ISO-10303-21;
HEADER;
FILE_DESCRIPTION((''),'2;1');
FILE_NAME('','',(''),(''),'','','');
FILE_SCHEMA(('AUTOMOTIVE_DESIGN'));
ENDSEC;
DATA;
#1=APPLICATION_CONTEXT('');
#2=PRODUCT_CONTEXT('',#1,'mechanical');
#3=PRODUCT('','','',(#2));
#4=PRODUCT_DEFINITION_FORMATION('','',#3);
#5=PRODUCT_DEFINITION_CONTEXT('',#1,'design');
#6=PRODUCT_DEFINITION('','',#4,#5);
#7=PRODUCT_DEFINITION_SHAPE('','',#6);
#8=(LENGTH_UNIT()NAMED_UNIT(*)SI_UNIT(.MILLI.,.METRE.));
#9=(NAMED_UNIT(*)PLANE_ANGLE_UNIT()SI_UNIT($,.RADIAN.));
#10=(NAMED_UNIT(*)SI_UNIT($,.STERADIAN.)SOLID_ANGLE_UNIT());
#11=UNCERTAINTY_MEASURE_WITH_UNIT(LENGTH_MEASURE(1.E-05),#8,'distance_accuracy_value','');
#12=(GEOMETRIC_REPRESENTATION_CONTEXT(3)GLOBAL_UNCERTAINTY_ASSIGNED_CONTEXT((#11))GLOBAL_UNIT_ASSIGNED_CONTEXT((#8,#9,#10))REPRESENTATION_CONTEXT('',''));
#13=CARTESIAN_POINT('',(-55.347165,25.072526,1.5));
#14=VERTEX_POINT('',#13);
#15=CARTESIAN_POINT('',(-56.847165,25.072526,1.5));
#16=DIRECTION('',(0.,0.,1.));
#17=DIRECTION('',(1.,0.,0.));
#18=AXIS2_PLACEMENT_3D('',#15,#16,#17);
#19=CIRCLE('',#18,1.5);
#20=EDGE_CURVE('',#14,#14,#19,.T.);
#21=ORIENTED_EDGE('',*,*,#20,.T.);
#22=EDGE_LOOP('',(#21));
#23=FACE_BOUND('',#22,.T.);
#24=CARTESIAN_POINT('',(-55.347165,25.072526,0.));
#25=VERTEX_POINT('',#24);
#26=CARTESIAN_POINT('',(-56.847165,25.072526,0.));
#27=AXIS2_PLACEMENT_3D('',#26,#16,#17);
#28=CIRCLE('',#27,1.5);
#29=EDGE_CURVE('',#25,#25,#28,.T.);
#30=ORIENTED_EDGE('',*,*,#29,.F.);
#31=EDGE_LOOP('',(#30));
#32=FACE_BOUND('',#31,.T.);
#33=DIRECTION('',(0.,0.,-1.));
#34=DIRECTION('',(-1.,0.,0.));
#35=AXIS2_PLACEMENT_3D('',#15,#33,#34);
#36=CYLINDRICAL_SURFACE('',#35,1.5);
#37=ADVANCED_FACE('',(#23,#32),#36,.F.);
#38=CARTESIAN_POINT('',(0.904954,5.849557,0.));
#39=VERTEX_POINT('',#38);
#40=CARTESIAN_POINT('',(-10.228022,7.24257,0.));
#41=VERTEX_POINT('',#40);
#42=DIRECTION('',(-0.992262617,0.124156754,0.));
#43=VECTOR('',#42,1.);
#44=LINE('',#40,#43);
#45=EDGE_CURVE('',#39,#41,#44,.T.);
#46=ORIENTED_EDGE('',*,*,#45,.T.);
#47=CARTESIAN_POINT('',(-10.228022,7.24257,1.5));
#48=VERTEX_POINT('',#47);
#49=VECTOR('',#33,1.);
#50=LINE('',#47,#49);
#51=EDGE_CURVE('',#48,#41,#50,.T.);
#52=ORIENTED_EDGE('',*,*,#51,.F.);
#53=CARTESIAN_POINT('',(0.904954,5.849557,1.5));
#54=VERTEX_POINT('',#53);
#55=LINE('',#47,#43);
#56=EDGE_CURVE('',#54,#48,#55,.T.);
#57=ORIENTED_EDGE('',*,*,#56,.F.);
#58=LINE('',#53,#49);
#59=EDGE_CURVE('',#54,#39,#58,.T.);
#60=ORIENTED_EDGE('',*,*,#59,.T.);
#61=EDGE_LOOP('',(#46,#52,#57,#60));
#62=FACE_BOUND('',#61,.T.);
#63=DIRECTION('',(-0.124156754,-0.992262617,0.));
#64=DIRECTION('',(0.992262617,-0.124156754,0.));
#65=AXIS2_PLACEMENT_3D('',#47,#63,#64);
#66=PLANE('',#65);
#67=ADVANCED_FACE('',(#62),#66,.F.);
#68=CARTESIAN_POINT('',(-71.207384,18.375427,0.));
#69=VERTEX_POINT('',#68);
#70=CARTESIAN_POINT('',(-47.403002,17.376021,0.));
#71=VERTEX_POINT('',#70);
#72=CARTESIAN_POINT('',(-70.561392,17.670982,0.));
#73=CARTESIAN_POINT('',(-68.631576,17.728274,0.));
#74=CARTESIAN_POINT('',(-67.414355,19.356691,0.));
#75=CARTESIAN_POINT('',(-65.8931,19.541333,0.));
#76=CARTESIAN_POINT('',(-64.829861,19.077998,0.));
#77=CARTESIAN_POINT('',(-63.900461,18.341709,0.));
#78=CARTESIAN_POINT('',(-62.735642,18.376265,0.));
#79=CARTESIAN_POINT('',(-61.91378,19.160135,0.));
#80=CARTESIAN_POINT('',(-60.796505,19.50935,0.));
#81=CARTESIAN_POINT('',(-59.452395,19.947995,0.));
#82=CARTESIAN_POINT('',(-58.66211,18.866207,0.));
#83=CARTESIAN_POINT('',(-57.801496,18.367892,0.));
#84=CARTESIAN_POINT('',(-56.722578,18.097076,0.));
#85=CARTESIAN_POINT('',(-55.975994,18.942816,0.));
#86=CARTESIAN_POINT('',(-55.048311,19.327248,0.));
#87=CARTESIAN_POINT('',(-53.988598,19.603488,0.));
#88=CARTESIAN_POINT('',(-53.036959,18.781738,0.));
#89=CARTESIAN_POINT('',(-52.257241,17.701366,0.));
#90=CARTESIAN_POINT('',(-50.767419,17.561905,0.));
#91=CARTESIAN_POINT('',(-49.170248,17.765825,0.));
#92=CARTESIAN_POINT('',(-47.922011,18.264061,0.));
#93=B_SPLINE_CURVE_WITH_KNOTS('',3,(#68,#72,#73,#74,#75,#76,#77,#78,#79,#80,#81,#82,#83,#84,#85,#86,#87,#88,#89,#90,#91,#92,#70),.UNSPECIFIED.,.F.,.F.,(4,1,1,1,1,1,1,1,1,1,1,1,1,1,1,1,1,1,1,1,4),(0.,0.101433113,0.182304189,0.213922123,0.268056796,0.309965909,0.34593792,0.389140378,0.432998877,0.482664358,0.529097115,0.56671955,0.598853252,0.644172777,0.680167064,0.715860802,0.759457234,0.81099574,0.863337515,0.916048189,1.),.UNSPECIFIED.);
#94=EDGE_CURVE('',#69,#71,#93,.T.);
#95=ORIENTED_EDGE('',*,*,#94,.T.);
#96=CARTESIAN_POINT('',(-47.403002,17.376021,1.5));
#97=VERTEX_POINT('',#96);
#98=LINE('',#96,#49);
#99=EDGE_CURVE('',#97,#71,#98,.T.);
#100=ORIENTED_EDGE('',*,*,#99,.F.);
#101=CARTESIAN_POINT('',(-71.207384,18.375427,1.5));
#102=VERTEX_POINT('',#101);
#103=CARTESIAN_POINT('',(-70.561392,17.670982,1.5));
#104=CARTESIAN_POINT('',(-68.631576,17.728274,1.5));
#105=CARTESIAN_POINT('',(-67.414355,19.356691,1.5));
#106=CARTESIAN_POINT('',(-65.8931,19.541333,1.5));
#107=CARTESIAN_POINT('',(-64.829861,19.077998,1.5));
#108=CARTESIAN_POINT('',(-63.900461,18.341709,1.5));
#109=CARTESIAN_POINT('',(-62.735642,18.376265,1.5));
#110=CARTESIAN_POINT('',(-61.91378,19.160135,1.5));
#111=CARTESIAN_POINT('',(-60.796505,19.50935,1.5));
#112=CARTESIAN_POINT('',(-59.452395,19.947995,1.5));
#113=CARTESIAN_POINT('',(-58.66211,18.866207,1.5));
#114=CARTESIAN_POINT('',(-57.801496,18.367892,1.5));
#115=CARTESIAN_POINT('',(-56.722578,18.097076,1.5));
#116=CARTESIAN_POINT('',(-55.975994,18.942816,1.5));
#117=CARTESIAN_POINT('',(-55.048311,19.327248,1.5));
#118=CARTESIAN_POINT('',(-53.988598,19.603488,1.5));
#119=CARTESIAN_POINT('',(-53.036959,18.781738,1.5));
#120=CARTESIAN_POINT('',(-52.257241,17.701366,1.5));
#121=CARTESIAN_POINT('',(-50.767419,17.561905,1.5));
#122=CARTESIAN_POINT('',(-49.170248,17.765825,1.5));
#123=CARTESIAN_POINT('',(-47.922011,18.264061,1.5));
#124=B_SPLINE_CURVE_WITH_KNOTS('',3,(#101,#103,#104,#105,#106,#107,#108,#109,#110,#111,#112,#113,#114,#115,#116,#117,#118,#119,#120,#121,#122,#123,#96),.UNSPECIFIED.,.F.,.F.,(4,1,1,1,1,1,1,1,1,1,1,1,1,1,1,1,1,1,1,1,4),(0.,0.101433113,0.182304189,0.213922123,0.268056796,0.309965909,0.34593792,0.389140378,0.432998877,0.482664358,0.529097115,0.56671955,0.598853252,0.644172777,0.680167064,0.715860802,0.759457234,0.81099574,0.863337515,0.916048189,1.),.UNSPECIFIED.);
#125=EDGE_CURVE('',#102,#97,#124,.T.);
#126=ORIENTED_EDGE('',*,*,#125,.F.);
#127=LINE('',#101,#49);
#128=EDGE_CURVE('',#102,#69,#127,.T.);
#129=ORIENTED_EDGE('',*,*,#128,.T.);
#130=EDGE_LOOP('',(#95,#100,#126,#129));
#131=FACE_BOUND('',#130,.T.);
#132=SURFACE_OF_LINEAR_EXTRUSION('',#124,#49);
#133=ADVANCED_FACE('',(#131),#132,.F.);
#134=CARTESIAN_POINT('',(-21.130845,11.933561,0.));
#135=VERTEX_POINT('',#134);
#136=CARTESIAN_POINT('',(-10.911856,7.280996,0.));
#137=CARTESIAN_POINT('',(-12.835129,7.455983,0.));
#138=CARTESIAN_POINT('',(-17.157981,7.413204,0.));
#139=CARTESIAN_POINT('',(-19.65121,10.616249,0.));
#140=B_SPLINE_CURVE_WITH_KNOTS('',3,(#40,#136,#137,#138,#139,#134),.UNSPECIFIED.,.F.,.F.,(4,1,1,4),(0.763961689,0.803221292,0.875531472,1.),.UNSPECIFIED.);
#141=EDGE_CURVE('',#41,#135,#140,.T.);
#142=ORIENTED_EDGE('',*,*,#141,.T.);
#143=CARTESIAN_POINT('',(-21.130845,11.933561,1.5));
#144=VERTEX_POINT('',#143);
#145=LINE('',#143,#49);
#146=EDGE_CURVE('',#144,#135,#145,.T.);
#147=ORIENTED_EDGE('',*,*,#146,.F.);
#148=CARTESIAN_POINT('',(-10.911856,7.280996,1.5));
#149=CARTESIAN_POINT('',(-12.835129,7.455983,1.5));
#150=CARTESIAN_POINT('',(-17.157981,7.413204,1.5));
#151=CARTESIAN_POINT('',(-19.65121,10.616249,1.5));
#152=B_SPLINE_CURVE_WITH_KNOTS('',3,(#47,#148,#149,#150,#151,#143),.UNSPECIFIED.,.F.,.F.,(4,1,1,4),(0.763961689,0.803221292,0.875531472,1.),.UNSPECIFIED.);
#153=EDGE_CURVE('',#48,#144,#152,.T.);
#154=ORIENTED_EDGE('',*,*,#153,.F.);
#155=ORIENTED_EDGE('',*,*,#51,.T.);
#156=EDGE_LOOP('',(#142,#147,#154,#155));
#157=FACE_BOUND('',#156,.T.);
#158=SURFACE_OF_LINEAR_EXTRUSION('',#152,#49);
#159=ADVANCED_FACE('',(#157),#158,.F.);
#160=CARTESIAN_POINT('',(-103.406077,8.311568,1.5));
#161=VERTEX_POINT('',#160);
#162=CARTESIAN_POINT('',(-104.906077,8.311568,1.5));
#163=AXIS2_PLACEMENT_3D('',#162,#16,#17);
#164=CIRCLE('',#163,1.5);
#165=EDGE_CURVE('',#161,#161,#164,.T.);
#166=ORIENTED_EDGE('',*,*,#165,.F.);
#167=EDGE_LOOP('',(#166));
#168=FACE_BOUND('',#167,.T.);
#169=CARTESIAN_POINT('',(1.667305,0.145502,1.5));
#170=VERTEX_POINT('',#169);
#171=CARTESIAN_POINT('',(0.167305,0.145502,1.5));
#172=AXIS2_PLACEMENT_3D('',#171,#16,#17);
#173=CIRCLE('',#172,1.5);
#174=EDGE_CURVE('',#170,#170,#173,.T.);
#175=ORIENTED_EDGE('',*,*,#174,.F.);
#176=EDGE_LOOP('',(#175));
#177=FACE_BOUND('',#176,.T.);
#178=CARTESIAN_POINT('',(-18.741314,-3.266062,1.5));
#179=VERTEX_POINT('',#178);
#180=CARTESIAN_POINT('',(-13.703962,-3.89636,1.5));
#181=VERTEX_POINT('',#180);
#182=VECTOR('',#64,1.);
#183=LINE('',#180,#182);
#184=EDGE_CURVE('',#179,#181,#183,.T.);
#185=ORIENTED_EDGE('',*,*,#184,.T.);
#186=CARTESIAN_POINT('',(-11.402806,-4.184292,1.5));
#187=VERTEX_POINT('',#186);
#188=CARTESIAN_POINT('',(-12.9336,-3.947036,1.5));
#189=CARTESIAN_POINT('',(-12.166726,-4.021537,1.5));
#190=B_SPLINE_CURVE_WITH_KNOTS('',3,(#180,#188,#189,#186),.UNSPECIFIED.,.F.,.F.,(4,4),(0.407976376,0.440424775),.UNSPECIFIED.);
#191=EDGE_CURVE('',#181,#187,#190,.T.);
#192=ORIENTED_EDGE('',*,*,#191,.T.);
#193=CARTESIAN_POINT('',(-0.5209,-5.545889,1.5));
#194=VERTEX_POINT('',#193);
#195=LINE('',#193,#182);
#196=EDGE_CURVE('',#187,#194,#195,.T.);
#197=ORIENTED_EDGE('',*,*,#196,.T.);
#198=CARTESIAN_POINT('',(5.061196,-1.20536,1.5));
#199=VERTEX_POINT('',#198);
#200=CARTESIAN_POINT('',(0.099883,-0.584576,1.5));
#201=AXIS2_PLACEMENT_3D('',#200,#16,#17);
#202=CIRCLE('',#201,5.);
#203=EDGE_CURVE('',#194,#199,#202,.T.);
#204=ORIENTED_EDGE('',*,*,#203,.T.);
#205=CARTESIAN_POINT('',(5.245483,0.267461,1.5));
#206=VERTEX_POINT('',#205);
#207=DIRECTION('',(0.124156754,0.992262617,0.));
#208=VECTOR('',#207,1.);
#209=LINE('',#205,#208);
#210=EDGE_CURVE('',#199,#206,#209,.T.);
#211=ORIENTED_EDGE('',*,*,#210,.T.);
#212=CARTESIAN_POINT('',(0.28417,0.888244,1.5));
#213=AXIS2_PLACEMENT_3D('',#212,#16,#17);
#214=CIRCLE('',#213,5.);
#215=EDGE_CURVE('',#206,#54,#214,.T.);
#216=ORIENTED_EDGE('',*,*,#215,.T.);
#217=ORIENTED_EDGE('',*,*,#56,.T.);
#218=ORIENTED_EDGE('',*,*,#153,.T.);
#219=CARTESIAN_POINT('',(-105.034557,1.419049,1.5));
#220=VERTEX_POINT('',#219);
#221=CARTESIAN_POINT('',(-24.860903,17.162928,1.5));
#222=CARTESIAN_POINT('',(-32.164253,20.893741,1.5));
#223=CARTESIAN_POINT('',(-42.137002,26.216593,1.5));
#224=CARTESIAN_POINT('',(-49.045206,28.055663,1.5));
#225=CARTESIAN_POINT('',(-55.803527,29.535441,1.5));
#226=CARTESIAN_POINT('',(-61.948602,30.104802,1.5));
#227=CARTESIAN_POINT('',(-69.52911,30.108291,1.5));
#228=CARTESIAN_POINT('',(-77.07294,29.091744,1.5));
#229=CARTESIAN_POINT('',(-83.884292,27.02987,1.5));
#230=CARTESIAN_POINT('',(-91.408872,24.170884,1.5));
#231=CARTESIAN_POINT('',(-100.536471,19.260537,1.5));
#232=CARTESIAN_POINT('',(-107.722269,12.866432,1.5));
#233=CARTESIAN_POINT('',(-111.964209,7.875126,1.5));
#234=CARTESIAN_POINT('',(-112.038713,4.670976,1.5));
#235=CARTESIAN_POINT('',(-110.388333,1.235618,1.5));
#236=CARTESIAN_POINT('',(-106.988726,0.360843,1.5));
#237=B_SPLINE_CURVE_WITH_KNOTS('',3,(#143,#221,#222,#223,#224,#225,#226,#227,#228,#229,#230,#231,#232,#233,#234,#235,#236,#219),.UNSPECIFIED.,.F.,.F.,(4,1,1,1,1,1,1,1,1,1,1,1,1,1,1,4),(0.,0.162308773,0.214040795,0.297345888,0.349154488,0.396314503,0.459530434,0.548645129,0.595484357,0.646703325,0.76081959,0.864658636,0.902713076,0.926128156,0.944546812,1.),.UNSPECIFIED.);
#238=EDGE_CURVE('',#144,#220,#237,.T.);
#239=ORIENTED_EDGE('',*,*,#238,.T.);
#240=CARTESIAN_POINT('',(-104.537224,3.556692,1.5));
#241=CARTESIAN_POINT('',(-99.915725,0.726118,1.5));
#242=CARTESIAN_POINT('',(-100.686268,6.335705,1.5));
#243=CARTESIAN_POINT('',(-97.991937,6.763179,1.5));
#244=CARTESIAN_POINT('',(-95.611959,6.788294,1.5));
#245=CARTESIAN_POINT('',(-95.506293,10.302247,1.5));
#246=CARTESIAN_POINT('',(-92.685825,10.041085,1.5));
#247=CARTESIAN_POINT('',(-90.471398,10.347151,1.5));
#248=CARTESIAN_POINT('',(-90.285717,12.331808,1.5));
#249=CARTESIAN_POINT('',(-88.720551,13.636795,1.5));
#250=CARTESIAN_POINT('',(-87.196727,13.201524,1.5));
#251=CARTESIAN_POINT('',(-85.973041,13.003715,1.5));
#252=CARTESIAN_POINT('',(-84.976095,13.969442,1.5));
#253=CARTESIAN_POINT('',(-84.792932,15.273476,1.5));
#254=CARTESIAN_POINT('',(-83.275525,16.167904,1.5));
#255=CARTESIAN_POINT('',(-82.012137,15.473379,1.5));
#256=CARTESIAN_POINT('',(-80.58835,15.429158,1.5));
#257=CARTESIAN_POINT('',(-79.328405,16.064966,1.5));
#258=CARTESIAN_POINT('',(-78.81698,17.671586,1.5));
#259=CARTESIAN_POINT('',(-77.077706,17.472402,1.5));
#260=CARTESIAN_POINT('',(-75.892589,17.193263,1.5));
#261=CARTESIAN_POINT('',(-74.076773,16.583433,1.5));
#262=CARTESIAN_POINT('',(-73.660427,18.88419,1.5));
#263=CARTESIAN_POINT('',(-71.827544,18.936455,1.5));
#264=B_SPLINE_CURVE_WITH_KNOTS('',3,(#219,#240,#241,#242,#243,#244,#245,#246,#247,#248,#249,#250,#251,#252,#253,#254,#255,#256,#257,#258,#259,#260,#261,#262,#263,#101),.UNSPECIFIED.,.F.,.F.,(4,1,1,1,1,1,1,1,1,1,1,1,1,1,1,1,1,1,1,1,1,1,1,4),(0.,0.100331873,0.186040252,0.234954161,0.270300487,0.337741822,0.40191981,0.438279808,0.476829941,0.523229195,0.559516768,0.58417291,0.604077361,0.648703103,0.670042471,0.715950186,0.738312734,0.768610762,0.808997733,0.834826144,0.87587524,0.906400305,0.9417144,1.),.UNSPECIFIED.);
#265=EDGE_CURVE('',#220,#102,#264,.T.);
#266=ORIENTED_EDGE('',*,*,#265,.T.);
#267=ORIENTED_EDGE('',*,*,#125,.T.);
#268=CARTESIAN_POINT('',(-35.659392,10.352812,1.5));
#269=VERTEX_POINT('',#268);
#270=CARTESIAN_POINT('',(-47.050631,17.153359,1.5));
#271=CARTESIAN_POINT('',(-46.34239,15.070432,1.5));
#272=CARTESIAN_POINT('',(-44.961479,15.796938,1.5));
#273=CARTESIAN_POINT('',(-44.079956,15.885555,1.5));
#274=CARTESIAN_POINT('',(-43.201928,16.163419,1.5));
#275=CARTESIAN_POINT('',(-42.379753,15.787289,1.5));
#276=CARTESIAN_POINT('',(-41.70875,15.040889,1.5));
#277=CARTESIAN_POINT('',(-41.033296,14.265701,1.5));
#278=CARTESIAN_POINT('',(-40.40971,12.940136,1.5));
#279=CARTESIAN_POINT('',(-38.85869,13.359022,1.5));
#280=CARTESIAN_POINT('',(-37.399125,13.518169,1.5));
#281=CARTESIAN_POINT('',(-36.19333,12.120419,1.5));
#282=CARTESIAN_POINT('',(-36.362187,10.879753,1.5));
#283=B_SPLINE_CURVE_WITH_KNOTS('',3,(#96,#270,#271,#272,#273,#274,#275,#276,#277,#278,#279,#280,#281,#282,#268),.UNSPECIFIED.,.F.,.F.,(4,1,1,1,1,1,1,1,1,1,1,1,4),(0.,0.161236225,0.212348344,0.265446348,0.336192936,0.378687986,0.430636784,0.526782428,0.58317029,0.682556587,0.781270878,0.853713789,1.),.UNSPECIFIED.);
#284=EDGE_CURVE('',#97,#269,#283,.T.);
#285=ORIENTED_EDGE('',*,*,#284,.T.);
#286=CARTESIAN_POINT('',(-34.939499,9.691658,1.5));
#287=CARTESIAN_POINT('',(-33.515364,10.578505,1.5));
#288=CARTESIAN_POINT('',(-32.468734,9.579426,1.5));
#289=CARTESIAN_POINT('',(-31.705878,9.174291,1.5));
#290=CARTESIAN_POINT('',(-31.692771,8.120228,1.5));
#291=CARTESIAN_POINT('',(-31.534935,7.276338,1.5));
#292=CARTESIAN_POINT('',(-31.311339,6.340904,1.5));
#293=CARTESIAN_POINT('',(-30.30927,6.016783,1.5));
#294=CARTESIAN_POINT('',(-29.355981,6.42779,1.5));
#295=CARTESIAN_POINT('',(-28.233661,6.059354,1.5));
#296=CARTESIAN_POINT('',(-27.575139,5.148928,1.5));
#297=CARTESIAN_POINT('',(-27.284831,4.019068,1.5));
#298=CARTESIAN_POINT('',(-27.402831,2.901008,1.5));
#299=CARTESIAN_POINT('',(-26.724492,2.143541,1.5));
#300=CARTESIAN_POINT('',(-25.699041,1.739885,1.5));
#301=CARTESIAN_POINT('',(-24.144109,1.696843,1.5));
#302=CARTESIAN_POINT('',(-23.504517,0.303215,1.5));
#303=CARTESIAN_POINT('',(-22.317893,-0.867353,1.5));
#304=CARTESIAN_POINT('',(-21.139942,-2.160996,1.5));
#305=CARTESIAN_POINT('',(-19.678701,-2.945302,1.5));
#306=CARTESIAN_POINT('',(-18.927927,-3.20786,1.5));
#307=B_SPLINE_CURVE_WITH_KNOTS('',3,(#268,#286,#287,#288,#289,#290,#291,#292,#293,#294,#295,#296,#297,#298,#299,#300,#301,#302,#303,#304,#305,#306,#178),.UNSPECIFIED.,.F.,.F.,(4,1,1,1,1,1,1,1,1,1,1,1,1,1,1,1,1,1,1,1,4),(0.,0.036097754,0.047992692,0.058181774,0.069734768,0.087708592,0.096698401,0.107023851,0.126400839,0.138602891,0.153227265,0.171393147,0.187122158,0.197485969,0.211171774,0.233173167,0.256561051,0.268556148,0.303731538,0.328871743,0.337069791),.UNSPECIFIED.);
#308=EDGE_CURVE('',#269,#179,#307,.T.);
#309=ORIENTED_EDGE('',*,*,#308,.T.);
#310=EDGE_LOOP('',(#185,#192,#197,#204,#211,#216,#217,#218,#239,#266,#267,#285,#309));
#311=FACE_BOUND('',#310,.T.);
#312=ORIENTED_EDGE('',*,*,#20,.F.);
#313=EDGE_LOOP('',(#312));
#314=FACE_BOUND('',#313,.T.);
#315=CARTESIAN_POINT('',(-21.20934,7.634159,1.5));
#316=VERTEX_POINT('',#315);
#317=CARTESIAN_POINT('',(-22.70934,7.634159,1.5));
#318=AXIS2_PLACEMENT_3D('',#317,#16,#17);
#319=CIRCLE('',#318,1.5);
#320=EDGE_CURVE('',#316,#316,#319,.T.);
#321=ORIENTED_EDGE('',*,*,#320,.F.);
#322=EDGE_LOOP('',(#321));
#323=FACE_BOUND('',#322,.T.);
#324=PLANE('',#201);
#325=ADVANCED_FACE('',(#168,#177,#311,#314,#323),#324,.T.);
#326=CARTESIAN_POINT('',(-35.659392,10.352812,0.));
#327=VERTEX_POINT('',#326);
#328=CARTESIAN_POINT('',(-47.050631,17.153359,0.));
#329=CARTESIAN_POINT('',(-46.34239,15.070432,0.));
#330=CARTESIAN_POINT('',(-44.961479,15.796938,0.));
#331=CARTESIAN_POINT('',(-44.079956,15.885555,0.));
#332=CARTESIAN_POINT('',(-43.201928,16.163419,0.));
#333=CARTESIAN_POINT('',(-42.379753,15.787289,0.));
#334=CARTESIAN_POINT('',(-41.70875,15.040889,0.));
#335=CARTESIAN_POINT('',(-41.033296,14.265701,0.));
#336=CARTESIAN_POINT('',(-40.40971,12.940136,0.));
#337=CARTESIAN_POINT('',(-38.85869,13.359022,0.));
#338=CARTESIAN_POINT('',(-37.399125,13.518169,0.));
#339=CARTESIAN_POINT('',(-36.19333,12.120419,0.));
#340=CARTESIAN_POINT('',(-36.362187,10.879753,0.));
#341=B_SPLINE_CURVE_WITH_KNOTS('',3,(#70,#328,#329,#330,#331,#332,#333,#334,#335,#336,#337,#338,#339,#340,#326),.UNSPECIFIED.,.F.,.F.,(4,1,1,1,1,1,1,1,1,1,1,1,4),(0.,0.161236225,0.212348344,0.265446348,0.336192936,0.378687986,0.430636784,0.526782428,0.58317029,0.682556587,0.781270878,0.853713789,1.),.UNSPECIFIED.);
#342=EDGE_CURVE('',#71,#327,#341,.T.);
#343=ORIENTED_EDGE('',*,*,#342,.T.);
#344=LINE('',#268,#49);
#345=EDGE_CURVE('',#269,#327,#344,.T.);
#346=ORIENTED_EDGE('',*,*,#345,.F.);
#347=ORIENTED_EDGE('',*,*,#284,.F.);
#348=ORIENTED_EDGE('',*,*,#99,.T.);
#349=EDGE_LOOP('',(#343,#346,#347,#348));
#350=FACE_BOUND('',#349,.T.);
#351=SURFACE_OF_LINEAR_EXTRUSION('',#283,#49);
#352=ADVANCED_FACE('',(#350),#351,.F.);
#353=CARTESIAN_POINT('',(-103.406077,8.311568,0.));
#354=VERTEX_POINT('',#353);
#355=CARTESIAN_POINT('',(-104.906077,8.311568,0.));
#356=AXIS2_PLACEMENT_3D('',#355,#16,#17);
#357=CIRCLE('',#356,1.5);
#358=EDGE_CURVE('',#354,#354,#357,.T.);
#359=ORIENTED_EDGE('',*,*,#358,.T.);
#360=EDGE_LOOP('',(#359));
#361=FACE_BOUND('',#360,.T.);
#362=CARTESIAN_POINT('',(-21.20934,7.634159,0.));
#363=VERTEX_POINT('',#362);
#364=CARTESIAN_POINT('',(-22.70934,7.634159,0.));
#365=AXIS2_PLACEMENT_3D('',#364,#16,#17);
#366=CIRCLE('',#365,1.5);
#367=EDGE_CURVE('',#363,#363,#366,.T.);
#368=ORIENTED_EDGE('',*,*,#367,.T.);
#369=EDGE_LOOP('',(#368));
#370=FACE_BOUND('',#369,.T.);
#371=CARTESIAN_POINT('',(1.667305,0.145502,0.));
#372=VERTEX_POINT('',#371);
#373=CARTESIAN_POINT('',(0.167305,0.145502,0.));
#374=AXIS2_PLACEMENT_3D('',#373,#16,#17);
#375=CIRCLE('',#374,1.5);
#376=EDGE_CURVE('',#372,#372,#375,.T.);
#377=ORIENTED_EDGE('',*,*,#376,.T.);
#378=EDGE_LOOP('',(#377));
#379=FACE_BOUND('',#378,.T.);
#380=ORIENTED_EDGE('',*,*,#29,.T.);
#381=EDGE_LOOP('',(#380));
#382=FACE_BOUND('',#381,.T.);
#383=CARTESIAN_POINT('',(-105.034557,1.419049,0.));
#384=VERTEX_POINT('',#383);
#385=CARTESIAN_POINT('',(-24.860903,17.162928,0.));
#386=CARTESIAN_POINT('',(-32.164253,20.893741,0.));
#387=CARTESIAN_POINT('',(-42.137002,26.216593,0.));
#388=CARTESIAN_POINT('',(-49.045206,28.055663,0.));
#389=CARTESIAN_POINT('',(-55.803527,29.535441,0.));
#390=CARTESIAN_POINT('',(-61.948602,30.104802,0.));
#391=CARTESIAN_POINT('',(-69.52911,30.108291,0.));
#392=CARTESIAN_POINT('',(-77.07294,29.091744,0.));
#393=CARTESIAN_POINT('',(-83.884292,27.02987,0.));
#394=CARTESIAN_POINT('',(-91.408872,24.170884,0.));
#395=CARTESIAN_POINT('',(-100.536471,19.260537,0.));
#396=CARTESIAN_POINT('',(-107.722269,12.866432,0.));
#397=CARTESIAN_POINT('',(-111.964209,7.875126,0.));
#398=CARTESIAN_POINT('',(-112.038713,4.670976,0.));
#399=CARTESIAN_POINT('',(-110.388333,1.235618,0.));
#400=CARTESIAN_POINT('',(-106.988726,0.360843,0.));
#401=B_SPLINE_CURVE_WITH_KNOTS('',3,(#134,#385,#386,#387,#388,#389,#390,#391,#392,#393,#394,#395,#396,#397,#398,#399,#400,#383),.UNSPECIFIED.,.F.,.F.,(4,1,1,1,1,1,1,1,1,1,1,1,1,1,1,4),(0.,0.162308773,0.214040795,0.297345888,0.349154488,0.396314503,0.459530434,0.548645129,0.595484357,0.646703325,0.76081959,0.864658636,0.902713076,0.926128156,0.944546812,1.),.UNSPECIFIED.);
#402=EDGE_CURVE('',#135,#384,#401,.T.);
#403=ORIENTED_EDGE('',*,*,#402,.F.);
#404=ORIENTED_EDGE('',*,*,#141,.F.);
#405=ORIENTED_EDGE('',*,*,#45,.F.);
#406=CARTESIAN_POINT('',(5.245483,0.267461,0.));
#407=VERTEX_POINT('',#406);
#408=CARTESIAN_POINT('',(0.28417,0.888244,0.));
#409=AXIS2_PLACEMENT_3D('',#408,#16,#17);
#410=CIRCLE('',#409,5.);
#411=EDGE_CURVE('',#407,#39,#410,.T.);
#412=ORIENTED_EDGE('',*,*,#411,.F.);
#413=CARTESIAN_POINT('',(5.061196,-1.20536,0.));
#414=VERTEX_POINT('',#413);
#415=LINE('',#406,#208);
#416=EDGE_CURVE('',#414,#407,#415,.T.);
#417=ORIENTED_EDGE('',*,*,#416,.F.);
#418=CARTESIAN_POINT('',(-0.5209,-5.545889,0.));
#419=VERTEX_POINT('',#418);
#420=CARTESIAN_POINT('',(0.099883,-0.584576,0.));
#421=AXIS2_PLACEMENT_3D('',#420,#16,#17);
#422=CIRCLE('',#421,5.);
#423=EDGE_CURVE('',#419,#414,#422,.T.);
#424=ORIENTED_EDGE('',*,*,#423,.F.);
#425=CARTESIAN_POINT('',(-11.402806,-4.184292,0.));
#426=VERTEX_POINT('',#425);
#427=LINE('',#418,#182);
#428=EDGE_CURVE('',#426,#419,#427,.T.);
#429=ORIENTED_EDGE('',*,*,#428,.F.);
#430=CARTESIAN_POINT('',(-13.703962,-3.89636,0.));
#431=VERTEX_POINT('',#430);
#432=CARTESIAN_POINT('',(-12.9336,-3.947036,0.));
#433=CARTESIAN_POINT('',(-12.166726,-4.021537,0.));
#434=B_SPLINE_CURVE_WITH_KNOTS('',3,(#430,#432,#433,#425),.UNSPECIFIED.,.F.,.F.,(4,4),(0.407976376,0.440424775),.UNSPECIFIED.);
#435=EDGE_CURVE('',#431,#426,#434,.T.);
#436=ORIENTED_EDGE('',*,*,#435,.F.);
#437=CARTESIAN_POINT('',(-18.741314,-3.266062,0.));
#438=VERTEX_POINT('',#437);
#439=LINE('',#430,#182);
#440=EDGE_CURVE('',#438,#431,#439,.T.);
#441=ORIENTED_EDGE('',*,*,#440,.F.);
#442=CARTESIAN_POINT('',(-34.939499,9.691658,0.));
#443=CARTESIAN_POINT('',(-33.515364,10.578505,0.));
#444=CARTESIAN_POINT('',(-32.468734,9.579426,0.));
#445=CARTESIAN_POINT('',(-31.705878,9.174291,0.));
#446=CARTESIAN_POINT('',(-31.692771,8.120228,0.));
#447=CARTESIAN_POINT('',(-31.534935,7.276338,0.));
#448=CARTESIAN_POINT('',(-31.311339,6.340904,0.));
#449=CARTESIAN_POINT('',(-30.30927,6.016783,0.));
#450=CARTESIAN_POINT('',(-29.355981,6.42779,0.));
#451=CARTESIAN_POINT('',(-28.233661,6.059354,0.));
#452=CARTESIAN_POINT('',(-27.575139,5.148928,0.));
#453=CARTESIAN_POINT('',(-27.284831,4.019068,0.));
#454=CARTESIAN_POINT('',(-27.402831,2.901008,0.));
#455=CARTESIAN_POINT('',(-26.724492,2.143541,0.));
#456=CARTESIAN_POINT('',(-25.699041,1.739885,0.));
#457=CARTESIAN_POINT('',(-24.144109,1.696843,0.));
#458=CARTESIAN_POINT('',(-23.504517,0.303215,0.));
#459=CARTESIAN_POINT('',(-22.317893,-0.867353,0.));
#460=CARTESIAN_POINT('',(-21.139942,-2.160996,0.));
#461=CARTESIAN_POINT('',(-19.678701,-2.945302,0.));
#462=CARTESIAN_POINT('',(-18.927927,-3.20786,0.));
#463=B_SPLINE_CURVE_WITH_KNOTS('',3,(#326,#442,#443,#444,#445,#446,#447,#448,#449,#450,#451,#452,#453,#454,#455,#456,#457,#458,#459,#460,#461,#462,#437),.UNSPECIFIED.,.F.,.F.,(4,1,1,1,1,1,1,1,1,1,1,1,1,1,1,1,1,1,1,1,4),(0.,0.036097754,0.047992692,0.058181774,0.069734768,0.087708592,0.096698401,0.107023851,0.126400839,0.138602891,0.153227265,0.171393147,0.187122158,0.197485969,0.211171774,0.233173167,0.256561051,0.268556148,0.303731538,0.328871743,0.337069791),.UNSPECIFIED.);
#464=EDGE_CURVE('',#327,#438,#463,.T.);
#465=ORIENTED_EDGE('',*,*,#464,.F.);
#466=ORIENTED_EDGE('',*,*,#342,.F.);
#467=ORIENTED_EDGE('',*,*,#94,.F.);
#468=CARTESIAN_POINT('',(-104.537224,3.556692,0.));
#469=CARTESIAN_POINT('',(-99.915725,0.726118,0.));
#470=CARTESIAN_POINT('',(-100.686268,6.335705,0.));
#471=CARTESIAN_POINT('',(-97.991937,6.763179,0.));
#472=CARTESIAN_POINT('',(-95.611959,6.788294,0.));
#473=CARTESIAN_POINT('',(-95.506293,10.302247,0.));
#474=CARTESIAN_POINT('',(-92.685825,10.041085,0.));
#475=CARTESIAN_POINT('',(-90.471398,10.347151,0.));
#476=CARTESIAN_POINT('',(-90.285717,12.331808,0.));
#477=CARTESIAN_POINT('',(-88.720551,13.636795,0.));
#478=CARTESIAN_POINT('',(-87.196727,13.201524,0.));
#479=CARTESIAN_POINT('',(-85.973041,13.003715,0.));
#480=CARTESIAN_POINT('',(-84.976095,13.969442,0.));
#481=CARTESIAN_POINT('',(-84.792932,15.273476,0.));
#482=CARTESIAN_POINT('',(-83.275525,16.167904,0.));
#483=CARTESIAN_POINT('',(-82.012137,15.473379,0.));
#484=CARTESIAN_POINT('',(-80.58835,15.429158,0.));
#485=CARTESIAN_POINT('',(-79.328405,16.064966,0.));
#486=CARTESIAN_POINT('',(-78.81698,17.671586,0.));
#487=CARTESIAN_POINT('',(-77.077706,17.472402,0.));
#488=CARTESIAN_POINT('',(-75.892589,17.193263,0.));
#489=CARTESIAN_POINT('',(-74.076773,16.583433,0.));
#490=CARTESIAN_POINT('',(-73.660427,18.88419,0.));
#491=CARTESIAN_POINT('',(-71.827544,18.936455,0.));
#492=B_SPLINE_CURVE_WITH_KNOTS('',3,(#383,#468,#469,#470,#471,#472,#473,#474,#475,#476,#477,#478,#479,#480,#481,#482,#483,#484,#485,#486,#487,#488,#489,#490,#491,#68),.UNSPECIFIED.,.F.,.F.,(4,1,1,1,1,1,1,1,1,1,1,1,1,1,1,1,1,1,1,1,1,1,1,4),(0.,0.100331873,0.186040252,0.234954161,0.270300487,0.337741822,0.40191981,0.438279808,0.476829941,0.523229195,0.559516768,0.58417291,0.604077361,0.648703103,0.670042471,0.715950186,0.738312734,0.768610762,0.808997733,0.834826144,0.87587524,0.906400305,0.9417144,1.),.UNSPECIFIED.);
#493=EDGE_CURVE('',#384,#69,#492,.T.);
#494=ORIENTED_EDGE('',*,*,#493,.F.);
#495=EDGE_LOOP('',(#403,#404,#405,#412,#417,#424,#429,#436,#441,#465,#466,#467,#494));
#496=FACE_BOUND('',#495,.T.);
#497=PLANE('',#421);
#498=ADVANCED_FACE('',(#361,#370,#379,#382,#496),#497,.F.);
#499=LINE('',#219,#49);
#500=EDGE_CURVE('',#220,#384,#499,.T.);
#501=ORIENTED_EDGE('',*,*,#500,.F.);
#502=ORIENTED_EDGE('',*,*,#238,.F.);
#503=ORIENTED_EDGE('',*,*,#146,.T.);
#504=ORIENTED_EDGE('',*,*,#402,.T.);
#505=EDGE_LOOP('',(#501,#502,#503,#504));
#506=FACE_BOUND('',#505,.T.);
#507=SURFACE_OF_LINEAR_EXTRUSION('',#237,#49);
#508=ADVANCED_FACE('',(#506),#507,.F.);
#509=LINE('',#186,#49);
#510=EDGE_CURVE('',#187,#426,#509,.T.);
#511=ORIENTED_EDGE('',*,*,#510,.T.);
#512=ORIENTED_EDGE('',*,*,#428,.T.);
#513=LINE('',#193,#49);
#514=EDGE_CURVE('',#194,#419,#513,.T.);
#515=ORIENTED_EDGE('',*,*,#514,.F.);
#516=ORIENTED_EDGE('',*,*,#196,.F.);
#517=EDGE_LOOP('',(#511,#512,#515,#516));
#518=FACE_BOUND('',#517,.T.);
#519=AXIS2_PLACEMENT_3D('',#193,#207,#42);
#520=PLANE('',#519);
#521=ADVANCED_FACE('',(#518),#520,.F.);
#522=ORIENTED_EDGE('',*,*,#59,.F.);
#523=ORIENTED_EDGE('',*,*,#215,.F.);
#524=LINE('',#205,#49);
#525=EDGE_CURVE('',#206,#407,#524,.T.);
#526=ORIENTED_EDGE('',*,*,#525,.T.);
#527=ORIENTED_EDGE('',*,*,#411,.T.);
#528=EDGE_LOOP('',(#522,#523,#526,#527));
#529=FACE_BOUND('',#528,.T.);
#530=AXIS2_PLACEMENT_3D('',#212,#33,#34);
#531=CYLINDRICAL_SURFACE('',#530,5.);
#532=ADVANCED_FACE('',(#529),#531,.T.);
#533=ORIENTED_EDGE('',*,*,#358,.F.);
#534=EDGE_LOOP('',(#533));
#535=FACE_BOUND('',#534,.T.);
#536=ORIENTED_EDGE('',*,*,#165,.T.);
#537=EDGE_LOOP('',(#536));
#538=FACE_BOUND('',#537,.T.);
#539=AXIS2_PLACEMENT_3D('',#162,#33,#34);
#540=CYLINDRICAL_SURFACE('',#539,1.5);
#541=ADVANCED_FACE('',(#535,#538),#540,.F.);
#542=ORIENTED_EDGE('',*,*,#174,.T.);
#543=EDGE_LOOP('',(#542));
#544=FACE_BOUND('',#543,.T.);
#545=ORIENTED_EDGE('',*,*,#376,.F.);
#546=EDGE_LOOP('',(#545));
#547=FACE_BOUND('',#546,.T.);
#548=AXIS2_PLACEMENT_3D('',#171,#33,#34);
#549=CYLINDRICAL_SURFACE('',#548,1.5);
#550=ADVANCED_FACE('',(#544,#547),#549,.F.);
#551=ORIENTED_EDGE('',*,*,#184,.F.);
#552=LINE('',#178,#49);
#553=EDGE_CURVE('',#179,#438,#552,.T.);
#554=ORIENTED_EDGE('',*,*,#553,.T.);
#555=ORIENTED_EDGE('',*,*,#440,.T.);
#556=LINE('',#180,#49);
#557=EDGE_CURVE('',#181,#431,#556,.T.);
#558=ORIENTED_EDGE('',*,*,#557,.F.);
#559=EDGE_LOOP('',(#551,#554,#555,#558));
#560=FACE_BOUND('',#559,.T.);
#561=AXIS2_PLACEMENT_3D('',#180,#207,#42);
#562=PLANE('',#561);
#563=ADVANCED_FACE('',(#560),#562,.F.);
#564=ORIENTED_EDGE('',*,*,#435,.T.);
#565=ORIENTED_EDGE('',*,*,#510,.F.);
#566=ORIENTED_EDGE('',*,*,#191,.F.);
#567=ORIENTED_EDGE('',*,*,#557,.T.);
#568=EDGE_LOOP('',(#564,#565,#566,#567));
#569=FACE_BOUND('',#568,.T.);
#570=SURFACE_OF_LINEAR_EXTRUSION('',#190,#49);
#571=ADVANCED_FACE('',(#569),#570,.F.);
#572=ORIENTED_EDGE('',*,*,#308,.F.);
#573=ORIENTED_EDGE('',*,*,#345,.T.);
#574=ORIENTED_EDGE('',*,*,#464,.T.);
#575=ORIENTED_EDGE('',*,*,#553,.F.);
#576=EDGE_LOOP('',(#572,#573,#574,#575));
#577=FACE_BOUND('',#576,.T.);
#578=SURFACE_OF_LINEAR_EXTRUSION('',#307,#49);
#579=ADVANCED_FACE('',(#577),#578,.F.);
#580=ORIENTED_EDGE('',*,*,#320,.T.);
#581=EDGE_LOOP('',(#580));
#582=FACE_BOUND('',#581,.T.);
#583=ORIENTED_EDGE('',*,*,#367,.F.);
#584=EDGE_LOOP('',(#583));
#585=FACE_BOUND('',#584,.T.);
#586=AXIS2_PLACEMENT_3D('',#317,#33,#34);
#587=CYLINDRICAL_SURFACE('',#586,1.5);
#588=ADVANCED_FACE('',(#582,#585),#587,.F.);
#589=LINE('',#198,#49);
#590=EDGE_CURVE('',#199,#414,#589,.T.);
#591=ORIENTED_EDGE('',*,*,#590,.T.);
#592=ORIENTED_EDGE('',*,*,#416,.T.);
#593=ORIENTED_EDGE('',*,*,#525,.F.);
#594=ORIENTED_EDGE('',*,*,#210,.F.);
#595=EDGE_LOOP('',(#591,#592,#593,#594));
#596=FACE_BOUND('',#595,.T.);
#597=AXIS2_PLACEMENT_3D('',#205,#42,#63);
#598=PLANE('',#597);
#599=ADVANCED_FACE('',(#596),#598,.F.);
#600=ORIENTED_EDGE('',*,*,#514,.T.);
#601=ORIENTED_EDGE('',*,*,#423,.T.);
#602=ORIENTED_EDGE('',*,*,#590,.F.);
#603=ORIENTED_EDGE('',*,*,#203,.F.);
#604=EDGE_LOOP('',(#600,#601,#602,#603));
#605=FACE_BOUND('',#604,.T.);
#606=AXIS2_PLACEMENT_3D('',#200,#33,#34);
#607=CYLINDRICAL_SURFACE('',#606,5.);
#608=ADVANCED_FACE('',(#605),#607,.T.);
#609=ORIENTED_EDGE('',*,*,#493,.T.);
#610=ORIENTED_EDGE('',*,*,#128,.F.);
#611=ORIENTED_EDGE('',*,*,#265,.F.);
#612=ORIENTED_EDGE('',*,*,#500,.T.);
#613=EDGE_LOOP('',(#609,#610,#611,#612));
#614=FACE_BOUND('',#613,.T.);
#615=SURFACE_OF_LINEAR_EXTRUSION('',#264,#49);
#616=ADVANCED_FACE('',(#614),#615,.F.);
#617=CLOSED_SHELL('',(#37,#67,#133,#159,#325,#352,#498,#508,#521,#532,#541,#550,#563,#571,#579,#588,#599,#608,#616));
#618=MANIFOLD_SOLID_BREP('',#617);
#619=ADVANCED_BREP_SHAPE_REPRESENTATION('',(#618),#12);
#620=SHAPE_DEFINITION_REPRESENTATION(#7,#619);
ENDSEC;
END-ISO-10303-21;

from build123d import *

# Parameters (mm, degrees)
SKETCH_1_R      = 1.5
EXTRUDE_1_DEPTH = 1.5


with BuildPart() as part:
    # 草图1 → 凸台-拉伸1 (new body)
    with BuildSketch(Plane.XY):
        with BuildLine():
            Line((-0.520900423, -5.545888964), (-11.402805529, -4.184291743))
            add(Edge.make_bspline(
                [(-13.703961558, -3.89635984), (-12.933600427, -3.947035944), (-12.16672614, -4.021536567), (-11.402805529, -4.184291743)],
                knots=[0.407976376, 0.407976376, 0.407976376, 0.407976376, 0.440424775, 0.440424775, 0.440424775, 0.440424775], degree=3))
            Line((-13.703961558, -3.89635984), (-18.741314261, -3.266061618))
            add(Edge.make_bspline(
                [(-35.659392475, 10.352812393), (-34.939498551, 9.69165786), (-33.515364228, 10.578504641), (-32.468734044, 9.579425708), (-31.70587848, 9.174291378), (-31.692770623, 8.120228444), (-31.534935304, 7.276338328), (-31.31133933, 6.340903611), (-30.309270109, 6.016783424), (-29.355980674, 6.427789527), (-28.233661215, 6.059354049), (-27.575138976, 5.148928128), (-27.284831057, 4.019068184), (-27.402830996, 2.901008002), (-26.724491723, 2.143540757), (-25.699040703, 1.739884825), (-24.144109396, 1.696842551), (-23.504516931, 0.303214671), (-22.317893288, -0.867353105), (-21.139941781, -2.160995658), (-19.678701401, -2.94530162), (-18.927926575, -3.207860453), (-18.741314261, -3.266061618)],
                knots=[0, 0, 0, 0, 0.036097754, 0.047992692, 0.058181774, 0.069734768, 0.087708592, 0.096698401, 0.107023851, 0.126400839, 0.138602891, 0.153227265, 0.171393147, 0.187122158, 0.197485969, 0.211171774, 0.233173167, 0.256561051, 0.268556148, 0.303731538, 0.328871743, 0.337069791, 0.337069791, 0.337069791, 0.337069791], degree=3))
            add(Edge.make_bspline(
                [(-47.403001965, 17.376020885), (-47.0506307, 17.153358683), (-46.342389637, 15.070431843), (-44.961478824, 15.796937639), (-44.079955846, 15.885554639), (-43.201927757, 16.163418929), (-42.379752994, 15.78728864), (-41.708749666, 15.040889011), (-41.033296055, 14.265701114), (-40.409710498, 12.940136148), (-38.858689541, 13.359022109), (-37.399124521, 13.518169211), (-36.193330386, 12.1204189), (-36.362186705, 10.879753219), (-35.659392475, 10.352812393)],
                knots=[0, 0, 0, 0, 0.161236225, 0.212348344, 0.265446348, 0.336192936, 0.378687986, 0.430636784, 0.526782428, 0.58317029, 0.682556587, 0.781270878, 0.853713789, 1, 1, 1, 1], degree=3))
            add(Edge.make_bspline(
                [(-71.207384467, 18.375427075), (-70.561391868, 17.670981975), (-68.631576336, 17.728274317), (-67.414354878, 19.356691053), (-65.893100389, 19.541333475), (-64.829861394, 19.077997991), (-63.900461357, 18.3417094), (-62.735642484, 18.376265098), (-61.913779787, 19.160134581), (-60.796504779, 19.509350123), (-59.452394815, 19.947995233), (-58.662109626, 18.866206791), (-57.801495643, 18.367891852), (-56.722577671, 18.09707571), (-55.975993866, 18.942815518), (-55.048310829, 19.327248221), (-53.988598491, 19.603487743), (-53.036958597, 18.781737949), (-52.257241397, 17.70136579), (-50.76741944, 17.561904603), (-49.170248046, 17.76582458), (-47.922011476, 18.264060776), (-47.403001965, 17.376020885)],
                knots=[0, 0, 0, 0, 0.101433113, 0.182304189, 0.213922123, 0.268056796, 0.309965909, 0.34593792, 0.389140378, 0.432998877, 0.482664358, 0.529097115, 0.56671955, 0.598853252, 0.644172777, 0.680167064, 0.715860802, 0.759457234, 0.81099574, 0.863337515, 0.916048189, 1, 1, 1, 1], degree=3))
            add(Edge.make_bspline(
                [(-105.034557463, 1.419048763), (-104.537224229, 3.556691586), (-99.915724907, 0.726117709), (-100.686268224, 6.335705103), (-97.991937437, 6.763178945), (-95.611958933, 6.788293571), (-95.506292601, 10.302247265), (-92.685825494, 10.041085087), (-90.47139797, 10.347151335), (-90.285716652, 12.331808489), (-88.720551352, 13.636794927), (-87.196726971, 13.201524016), (-85.973040848, 13.003714755), (-84.976094544, 13.969442191), (-84.792932236, 15.273476469), (-83.275525106, 16.167903652), (-82.01213745, 15.473379202), (-80.58834959, 15.429157786), (-79.32840524, 16.064966203), (-78.816979747, 17.671586261), (-77.077705557, 17.47240223), (-75.892588834, 17.193262703), (-74.076772999, 16.583433208), (-73.660426729, 18.88418954), (-71.827544211, 18.93645502), (-71.207384467, 18.375427075)],
                knots=[0, 0, 0, 0, 0.100331873, 0.186040252, 0.234954161, 0.270300487, 0.337741822, 0.40191981, 0.438279808, 0.476829941, 0.523229195, 0.559516768, 0.58417291, 0.604077361, 0.648703103, 0.670042471, 0.715950186, 0.738312734, 0.768610762, 0.808997733, 0.834826144, 0.87587524, 0.906400305, 0.9417144, 1, 1, 1, 1], degree=3))
            add(Edge.make_bspline(
                [(-21.130845116, 11.933561412), (-24.860902591, 17.162928468), (-32.164252682, 20.893740938), (-42.137002015, 26.216593397), (-49.045205504, 28.055662941), (-55.803526642, 29.535441398), (-61.948602147, 30.104802239), (-69.529110192, 30.108290935), (-77.072940239, 29.091744184), (-83.884291665, 27.029870129), (-91.408872233, 24.170883779), (-100.536470974, 19.260537032), (-107.722268555, 12.866432049), (-111.964208693, 7.875125786), (-112.038713313, 4.670975852), (-110.388332642, 1.235617841), (-106.988725941, 0.36084251), (-105.034557463, 1.419048763)],
                knots=[0, 0, 0, 0, 0.162308773, 0.214040795, 0.297345888, 0.349154488, 0.396314503, 0.459530434, 0.548645129, 0.595484357, 0.646703325, 0.76081959, 0.864658636, 0.902713076, 0.926128156, 0.944546812, 1, 1, 1, 1], degree=3))
            add(Edge.make_bspline(
                [(-10.228021871, 7.242569771), (-10.911856094, 7.280996311), (-12.835129239, 7.45598324), (-17.157981253, 7.413204488), (-19.651209566, 10.616249428), (-21.130845116, 11.933561412)],
                knots=[0.763961689, 0.763961689, 0.763961689, 0.763961689, 0.803221292, 0.875531472, 1, 1, 1, 1], degree=3))
            Line((-10.228021871, 7.242569771), (0.904953592, 5.849557399))
            ThreePointArc((0.904953592, 5.849557399), (4.231308359, 3.957462026), (5.245482903, 0.267460544))
            Line((5.245482903, 0.267460544), (5.061196432, -1.205359653))
            ThreePointArc((5.061196432, -1.205359653), (3.169101059, -4.53171442), (-0.520900423, -5.545888964))
        make_face()
        with Locations((-104.906076677, 8.3115684)):
            Circle(SKETCH_1_R, mode=Mode.SUBTRACT)
        with Locations((-22.709339509, 7.634159424)):
            Circle(SKETCH_1_R, mode=Mode.SUBTRACT)
        with Locations((0.167304743, 0.145501946)):
            Circle(SKETCH_1_R, mode=Mode.SUBTRACT)
        with Locations((-56.847164613, 25.072525588)):
            Circle(SKETCH_1_R, mode=Mode.SUBTRACT)
    extrude(amount=EXTRUDE_1_DEPTH)


solid = part.part
